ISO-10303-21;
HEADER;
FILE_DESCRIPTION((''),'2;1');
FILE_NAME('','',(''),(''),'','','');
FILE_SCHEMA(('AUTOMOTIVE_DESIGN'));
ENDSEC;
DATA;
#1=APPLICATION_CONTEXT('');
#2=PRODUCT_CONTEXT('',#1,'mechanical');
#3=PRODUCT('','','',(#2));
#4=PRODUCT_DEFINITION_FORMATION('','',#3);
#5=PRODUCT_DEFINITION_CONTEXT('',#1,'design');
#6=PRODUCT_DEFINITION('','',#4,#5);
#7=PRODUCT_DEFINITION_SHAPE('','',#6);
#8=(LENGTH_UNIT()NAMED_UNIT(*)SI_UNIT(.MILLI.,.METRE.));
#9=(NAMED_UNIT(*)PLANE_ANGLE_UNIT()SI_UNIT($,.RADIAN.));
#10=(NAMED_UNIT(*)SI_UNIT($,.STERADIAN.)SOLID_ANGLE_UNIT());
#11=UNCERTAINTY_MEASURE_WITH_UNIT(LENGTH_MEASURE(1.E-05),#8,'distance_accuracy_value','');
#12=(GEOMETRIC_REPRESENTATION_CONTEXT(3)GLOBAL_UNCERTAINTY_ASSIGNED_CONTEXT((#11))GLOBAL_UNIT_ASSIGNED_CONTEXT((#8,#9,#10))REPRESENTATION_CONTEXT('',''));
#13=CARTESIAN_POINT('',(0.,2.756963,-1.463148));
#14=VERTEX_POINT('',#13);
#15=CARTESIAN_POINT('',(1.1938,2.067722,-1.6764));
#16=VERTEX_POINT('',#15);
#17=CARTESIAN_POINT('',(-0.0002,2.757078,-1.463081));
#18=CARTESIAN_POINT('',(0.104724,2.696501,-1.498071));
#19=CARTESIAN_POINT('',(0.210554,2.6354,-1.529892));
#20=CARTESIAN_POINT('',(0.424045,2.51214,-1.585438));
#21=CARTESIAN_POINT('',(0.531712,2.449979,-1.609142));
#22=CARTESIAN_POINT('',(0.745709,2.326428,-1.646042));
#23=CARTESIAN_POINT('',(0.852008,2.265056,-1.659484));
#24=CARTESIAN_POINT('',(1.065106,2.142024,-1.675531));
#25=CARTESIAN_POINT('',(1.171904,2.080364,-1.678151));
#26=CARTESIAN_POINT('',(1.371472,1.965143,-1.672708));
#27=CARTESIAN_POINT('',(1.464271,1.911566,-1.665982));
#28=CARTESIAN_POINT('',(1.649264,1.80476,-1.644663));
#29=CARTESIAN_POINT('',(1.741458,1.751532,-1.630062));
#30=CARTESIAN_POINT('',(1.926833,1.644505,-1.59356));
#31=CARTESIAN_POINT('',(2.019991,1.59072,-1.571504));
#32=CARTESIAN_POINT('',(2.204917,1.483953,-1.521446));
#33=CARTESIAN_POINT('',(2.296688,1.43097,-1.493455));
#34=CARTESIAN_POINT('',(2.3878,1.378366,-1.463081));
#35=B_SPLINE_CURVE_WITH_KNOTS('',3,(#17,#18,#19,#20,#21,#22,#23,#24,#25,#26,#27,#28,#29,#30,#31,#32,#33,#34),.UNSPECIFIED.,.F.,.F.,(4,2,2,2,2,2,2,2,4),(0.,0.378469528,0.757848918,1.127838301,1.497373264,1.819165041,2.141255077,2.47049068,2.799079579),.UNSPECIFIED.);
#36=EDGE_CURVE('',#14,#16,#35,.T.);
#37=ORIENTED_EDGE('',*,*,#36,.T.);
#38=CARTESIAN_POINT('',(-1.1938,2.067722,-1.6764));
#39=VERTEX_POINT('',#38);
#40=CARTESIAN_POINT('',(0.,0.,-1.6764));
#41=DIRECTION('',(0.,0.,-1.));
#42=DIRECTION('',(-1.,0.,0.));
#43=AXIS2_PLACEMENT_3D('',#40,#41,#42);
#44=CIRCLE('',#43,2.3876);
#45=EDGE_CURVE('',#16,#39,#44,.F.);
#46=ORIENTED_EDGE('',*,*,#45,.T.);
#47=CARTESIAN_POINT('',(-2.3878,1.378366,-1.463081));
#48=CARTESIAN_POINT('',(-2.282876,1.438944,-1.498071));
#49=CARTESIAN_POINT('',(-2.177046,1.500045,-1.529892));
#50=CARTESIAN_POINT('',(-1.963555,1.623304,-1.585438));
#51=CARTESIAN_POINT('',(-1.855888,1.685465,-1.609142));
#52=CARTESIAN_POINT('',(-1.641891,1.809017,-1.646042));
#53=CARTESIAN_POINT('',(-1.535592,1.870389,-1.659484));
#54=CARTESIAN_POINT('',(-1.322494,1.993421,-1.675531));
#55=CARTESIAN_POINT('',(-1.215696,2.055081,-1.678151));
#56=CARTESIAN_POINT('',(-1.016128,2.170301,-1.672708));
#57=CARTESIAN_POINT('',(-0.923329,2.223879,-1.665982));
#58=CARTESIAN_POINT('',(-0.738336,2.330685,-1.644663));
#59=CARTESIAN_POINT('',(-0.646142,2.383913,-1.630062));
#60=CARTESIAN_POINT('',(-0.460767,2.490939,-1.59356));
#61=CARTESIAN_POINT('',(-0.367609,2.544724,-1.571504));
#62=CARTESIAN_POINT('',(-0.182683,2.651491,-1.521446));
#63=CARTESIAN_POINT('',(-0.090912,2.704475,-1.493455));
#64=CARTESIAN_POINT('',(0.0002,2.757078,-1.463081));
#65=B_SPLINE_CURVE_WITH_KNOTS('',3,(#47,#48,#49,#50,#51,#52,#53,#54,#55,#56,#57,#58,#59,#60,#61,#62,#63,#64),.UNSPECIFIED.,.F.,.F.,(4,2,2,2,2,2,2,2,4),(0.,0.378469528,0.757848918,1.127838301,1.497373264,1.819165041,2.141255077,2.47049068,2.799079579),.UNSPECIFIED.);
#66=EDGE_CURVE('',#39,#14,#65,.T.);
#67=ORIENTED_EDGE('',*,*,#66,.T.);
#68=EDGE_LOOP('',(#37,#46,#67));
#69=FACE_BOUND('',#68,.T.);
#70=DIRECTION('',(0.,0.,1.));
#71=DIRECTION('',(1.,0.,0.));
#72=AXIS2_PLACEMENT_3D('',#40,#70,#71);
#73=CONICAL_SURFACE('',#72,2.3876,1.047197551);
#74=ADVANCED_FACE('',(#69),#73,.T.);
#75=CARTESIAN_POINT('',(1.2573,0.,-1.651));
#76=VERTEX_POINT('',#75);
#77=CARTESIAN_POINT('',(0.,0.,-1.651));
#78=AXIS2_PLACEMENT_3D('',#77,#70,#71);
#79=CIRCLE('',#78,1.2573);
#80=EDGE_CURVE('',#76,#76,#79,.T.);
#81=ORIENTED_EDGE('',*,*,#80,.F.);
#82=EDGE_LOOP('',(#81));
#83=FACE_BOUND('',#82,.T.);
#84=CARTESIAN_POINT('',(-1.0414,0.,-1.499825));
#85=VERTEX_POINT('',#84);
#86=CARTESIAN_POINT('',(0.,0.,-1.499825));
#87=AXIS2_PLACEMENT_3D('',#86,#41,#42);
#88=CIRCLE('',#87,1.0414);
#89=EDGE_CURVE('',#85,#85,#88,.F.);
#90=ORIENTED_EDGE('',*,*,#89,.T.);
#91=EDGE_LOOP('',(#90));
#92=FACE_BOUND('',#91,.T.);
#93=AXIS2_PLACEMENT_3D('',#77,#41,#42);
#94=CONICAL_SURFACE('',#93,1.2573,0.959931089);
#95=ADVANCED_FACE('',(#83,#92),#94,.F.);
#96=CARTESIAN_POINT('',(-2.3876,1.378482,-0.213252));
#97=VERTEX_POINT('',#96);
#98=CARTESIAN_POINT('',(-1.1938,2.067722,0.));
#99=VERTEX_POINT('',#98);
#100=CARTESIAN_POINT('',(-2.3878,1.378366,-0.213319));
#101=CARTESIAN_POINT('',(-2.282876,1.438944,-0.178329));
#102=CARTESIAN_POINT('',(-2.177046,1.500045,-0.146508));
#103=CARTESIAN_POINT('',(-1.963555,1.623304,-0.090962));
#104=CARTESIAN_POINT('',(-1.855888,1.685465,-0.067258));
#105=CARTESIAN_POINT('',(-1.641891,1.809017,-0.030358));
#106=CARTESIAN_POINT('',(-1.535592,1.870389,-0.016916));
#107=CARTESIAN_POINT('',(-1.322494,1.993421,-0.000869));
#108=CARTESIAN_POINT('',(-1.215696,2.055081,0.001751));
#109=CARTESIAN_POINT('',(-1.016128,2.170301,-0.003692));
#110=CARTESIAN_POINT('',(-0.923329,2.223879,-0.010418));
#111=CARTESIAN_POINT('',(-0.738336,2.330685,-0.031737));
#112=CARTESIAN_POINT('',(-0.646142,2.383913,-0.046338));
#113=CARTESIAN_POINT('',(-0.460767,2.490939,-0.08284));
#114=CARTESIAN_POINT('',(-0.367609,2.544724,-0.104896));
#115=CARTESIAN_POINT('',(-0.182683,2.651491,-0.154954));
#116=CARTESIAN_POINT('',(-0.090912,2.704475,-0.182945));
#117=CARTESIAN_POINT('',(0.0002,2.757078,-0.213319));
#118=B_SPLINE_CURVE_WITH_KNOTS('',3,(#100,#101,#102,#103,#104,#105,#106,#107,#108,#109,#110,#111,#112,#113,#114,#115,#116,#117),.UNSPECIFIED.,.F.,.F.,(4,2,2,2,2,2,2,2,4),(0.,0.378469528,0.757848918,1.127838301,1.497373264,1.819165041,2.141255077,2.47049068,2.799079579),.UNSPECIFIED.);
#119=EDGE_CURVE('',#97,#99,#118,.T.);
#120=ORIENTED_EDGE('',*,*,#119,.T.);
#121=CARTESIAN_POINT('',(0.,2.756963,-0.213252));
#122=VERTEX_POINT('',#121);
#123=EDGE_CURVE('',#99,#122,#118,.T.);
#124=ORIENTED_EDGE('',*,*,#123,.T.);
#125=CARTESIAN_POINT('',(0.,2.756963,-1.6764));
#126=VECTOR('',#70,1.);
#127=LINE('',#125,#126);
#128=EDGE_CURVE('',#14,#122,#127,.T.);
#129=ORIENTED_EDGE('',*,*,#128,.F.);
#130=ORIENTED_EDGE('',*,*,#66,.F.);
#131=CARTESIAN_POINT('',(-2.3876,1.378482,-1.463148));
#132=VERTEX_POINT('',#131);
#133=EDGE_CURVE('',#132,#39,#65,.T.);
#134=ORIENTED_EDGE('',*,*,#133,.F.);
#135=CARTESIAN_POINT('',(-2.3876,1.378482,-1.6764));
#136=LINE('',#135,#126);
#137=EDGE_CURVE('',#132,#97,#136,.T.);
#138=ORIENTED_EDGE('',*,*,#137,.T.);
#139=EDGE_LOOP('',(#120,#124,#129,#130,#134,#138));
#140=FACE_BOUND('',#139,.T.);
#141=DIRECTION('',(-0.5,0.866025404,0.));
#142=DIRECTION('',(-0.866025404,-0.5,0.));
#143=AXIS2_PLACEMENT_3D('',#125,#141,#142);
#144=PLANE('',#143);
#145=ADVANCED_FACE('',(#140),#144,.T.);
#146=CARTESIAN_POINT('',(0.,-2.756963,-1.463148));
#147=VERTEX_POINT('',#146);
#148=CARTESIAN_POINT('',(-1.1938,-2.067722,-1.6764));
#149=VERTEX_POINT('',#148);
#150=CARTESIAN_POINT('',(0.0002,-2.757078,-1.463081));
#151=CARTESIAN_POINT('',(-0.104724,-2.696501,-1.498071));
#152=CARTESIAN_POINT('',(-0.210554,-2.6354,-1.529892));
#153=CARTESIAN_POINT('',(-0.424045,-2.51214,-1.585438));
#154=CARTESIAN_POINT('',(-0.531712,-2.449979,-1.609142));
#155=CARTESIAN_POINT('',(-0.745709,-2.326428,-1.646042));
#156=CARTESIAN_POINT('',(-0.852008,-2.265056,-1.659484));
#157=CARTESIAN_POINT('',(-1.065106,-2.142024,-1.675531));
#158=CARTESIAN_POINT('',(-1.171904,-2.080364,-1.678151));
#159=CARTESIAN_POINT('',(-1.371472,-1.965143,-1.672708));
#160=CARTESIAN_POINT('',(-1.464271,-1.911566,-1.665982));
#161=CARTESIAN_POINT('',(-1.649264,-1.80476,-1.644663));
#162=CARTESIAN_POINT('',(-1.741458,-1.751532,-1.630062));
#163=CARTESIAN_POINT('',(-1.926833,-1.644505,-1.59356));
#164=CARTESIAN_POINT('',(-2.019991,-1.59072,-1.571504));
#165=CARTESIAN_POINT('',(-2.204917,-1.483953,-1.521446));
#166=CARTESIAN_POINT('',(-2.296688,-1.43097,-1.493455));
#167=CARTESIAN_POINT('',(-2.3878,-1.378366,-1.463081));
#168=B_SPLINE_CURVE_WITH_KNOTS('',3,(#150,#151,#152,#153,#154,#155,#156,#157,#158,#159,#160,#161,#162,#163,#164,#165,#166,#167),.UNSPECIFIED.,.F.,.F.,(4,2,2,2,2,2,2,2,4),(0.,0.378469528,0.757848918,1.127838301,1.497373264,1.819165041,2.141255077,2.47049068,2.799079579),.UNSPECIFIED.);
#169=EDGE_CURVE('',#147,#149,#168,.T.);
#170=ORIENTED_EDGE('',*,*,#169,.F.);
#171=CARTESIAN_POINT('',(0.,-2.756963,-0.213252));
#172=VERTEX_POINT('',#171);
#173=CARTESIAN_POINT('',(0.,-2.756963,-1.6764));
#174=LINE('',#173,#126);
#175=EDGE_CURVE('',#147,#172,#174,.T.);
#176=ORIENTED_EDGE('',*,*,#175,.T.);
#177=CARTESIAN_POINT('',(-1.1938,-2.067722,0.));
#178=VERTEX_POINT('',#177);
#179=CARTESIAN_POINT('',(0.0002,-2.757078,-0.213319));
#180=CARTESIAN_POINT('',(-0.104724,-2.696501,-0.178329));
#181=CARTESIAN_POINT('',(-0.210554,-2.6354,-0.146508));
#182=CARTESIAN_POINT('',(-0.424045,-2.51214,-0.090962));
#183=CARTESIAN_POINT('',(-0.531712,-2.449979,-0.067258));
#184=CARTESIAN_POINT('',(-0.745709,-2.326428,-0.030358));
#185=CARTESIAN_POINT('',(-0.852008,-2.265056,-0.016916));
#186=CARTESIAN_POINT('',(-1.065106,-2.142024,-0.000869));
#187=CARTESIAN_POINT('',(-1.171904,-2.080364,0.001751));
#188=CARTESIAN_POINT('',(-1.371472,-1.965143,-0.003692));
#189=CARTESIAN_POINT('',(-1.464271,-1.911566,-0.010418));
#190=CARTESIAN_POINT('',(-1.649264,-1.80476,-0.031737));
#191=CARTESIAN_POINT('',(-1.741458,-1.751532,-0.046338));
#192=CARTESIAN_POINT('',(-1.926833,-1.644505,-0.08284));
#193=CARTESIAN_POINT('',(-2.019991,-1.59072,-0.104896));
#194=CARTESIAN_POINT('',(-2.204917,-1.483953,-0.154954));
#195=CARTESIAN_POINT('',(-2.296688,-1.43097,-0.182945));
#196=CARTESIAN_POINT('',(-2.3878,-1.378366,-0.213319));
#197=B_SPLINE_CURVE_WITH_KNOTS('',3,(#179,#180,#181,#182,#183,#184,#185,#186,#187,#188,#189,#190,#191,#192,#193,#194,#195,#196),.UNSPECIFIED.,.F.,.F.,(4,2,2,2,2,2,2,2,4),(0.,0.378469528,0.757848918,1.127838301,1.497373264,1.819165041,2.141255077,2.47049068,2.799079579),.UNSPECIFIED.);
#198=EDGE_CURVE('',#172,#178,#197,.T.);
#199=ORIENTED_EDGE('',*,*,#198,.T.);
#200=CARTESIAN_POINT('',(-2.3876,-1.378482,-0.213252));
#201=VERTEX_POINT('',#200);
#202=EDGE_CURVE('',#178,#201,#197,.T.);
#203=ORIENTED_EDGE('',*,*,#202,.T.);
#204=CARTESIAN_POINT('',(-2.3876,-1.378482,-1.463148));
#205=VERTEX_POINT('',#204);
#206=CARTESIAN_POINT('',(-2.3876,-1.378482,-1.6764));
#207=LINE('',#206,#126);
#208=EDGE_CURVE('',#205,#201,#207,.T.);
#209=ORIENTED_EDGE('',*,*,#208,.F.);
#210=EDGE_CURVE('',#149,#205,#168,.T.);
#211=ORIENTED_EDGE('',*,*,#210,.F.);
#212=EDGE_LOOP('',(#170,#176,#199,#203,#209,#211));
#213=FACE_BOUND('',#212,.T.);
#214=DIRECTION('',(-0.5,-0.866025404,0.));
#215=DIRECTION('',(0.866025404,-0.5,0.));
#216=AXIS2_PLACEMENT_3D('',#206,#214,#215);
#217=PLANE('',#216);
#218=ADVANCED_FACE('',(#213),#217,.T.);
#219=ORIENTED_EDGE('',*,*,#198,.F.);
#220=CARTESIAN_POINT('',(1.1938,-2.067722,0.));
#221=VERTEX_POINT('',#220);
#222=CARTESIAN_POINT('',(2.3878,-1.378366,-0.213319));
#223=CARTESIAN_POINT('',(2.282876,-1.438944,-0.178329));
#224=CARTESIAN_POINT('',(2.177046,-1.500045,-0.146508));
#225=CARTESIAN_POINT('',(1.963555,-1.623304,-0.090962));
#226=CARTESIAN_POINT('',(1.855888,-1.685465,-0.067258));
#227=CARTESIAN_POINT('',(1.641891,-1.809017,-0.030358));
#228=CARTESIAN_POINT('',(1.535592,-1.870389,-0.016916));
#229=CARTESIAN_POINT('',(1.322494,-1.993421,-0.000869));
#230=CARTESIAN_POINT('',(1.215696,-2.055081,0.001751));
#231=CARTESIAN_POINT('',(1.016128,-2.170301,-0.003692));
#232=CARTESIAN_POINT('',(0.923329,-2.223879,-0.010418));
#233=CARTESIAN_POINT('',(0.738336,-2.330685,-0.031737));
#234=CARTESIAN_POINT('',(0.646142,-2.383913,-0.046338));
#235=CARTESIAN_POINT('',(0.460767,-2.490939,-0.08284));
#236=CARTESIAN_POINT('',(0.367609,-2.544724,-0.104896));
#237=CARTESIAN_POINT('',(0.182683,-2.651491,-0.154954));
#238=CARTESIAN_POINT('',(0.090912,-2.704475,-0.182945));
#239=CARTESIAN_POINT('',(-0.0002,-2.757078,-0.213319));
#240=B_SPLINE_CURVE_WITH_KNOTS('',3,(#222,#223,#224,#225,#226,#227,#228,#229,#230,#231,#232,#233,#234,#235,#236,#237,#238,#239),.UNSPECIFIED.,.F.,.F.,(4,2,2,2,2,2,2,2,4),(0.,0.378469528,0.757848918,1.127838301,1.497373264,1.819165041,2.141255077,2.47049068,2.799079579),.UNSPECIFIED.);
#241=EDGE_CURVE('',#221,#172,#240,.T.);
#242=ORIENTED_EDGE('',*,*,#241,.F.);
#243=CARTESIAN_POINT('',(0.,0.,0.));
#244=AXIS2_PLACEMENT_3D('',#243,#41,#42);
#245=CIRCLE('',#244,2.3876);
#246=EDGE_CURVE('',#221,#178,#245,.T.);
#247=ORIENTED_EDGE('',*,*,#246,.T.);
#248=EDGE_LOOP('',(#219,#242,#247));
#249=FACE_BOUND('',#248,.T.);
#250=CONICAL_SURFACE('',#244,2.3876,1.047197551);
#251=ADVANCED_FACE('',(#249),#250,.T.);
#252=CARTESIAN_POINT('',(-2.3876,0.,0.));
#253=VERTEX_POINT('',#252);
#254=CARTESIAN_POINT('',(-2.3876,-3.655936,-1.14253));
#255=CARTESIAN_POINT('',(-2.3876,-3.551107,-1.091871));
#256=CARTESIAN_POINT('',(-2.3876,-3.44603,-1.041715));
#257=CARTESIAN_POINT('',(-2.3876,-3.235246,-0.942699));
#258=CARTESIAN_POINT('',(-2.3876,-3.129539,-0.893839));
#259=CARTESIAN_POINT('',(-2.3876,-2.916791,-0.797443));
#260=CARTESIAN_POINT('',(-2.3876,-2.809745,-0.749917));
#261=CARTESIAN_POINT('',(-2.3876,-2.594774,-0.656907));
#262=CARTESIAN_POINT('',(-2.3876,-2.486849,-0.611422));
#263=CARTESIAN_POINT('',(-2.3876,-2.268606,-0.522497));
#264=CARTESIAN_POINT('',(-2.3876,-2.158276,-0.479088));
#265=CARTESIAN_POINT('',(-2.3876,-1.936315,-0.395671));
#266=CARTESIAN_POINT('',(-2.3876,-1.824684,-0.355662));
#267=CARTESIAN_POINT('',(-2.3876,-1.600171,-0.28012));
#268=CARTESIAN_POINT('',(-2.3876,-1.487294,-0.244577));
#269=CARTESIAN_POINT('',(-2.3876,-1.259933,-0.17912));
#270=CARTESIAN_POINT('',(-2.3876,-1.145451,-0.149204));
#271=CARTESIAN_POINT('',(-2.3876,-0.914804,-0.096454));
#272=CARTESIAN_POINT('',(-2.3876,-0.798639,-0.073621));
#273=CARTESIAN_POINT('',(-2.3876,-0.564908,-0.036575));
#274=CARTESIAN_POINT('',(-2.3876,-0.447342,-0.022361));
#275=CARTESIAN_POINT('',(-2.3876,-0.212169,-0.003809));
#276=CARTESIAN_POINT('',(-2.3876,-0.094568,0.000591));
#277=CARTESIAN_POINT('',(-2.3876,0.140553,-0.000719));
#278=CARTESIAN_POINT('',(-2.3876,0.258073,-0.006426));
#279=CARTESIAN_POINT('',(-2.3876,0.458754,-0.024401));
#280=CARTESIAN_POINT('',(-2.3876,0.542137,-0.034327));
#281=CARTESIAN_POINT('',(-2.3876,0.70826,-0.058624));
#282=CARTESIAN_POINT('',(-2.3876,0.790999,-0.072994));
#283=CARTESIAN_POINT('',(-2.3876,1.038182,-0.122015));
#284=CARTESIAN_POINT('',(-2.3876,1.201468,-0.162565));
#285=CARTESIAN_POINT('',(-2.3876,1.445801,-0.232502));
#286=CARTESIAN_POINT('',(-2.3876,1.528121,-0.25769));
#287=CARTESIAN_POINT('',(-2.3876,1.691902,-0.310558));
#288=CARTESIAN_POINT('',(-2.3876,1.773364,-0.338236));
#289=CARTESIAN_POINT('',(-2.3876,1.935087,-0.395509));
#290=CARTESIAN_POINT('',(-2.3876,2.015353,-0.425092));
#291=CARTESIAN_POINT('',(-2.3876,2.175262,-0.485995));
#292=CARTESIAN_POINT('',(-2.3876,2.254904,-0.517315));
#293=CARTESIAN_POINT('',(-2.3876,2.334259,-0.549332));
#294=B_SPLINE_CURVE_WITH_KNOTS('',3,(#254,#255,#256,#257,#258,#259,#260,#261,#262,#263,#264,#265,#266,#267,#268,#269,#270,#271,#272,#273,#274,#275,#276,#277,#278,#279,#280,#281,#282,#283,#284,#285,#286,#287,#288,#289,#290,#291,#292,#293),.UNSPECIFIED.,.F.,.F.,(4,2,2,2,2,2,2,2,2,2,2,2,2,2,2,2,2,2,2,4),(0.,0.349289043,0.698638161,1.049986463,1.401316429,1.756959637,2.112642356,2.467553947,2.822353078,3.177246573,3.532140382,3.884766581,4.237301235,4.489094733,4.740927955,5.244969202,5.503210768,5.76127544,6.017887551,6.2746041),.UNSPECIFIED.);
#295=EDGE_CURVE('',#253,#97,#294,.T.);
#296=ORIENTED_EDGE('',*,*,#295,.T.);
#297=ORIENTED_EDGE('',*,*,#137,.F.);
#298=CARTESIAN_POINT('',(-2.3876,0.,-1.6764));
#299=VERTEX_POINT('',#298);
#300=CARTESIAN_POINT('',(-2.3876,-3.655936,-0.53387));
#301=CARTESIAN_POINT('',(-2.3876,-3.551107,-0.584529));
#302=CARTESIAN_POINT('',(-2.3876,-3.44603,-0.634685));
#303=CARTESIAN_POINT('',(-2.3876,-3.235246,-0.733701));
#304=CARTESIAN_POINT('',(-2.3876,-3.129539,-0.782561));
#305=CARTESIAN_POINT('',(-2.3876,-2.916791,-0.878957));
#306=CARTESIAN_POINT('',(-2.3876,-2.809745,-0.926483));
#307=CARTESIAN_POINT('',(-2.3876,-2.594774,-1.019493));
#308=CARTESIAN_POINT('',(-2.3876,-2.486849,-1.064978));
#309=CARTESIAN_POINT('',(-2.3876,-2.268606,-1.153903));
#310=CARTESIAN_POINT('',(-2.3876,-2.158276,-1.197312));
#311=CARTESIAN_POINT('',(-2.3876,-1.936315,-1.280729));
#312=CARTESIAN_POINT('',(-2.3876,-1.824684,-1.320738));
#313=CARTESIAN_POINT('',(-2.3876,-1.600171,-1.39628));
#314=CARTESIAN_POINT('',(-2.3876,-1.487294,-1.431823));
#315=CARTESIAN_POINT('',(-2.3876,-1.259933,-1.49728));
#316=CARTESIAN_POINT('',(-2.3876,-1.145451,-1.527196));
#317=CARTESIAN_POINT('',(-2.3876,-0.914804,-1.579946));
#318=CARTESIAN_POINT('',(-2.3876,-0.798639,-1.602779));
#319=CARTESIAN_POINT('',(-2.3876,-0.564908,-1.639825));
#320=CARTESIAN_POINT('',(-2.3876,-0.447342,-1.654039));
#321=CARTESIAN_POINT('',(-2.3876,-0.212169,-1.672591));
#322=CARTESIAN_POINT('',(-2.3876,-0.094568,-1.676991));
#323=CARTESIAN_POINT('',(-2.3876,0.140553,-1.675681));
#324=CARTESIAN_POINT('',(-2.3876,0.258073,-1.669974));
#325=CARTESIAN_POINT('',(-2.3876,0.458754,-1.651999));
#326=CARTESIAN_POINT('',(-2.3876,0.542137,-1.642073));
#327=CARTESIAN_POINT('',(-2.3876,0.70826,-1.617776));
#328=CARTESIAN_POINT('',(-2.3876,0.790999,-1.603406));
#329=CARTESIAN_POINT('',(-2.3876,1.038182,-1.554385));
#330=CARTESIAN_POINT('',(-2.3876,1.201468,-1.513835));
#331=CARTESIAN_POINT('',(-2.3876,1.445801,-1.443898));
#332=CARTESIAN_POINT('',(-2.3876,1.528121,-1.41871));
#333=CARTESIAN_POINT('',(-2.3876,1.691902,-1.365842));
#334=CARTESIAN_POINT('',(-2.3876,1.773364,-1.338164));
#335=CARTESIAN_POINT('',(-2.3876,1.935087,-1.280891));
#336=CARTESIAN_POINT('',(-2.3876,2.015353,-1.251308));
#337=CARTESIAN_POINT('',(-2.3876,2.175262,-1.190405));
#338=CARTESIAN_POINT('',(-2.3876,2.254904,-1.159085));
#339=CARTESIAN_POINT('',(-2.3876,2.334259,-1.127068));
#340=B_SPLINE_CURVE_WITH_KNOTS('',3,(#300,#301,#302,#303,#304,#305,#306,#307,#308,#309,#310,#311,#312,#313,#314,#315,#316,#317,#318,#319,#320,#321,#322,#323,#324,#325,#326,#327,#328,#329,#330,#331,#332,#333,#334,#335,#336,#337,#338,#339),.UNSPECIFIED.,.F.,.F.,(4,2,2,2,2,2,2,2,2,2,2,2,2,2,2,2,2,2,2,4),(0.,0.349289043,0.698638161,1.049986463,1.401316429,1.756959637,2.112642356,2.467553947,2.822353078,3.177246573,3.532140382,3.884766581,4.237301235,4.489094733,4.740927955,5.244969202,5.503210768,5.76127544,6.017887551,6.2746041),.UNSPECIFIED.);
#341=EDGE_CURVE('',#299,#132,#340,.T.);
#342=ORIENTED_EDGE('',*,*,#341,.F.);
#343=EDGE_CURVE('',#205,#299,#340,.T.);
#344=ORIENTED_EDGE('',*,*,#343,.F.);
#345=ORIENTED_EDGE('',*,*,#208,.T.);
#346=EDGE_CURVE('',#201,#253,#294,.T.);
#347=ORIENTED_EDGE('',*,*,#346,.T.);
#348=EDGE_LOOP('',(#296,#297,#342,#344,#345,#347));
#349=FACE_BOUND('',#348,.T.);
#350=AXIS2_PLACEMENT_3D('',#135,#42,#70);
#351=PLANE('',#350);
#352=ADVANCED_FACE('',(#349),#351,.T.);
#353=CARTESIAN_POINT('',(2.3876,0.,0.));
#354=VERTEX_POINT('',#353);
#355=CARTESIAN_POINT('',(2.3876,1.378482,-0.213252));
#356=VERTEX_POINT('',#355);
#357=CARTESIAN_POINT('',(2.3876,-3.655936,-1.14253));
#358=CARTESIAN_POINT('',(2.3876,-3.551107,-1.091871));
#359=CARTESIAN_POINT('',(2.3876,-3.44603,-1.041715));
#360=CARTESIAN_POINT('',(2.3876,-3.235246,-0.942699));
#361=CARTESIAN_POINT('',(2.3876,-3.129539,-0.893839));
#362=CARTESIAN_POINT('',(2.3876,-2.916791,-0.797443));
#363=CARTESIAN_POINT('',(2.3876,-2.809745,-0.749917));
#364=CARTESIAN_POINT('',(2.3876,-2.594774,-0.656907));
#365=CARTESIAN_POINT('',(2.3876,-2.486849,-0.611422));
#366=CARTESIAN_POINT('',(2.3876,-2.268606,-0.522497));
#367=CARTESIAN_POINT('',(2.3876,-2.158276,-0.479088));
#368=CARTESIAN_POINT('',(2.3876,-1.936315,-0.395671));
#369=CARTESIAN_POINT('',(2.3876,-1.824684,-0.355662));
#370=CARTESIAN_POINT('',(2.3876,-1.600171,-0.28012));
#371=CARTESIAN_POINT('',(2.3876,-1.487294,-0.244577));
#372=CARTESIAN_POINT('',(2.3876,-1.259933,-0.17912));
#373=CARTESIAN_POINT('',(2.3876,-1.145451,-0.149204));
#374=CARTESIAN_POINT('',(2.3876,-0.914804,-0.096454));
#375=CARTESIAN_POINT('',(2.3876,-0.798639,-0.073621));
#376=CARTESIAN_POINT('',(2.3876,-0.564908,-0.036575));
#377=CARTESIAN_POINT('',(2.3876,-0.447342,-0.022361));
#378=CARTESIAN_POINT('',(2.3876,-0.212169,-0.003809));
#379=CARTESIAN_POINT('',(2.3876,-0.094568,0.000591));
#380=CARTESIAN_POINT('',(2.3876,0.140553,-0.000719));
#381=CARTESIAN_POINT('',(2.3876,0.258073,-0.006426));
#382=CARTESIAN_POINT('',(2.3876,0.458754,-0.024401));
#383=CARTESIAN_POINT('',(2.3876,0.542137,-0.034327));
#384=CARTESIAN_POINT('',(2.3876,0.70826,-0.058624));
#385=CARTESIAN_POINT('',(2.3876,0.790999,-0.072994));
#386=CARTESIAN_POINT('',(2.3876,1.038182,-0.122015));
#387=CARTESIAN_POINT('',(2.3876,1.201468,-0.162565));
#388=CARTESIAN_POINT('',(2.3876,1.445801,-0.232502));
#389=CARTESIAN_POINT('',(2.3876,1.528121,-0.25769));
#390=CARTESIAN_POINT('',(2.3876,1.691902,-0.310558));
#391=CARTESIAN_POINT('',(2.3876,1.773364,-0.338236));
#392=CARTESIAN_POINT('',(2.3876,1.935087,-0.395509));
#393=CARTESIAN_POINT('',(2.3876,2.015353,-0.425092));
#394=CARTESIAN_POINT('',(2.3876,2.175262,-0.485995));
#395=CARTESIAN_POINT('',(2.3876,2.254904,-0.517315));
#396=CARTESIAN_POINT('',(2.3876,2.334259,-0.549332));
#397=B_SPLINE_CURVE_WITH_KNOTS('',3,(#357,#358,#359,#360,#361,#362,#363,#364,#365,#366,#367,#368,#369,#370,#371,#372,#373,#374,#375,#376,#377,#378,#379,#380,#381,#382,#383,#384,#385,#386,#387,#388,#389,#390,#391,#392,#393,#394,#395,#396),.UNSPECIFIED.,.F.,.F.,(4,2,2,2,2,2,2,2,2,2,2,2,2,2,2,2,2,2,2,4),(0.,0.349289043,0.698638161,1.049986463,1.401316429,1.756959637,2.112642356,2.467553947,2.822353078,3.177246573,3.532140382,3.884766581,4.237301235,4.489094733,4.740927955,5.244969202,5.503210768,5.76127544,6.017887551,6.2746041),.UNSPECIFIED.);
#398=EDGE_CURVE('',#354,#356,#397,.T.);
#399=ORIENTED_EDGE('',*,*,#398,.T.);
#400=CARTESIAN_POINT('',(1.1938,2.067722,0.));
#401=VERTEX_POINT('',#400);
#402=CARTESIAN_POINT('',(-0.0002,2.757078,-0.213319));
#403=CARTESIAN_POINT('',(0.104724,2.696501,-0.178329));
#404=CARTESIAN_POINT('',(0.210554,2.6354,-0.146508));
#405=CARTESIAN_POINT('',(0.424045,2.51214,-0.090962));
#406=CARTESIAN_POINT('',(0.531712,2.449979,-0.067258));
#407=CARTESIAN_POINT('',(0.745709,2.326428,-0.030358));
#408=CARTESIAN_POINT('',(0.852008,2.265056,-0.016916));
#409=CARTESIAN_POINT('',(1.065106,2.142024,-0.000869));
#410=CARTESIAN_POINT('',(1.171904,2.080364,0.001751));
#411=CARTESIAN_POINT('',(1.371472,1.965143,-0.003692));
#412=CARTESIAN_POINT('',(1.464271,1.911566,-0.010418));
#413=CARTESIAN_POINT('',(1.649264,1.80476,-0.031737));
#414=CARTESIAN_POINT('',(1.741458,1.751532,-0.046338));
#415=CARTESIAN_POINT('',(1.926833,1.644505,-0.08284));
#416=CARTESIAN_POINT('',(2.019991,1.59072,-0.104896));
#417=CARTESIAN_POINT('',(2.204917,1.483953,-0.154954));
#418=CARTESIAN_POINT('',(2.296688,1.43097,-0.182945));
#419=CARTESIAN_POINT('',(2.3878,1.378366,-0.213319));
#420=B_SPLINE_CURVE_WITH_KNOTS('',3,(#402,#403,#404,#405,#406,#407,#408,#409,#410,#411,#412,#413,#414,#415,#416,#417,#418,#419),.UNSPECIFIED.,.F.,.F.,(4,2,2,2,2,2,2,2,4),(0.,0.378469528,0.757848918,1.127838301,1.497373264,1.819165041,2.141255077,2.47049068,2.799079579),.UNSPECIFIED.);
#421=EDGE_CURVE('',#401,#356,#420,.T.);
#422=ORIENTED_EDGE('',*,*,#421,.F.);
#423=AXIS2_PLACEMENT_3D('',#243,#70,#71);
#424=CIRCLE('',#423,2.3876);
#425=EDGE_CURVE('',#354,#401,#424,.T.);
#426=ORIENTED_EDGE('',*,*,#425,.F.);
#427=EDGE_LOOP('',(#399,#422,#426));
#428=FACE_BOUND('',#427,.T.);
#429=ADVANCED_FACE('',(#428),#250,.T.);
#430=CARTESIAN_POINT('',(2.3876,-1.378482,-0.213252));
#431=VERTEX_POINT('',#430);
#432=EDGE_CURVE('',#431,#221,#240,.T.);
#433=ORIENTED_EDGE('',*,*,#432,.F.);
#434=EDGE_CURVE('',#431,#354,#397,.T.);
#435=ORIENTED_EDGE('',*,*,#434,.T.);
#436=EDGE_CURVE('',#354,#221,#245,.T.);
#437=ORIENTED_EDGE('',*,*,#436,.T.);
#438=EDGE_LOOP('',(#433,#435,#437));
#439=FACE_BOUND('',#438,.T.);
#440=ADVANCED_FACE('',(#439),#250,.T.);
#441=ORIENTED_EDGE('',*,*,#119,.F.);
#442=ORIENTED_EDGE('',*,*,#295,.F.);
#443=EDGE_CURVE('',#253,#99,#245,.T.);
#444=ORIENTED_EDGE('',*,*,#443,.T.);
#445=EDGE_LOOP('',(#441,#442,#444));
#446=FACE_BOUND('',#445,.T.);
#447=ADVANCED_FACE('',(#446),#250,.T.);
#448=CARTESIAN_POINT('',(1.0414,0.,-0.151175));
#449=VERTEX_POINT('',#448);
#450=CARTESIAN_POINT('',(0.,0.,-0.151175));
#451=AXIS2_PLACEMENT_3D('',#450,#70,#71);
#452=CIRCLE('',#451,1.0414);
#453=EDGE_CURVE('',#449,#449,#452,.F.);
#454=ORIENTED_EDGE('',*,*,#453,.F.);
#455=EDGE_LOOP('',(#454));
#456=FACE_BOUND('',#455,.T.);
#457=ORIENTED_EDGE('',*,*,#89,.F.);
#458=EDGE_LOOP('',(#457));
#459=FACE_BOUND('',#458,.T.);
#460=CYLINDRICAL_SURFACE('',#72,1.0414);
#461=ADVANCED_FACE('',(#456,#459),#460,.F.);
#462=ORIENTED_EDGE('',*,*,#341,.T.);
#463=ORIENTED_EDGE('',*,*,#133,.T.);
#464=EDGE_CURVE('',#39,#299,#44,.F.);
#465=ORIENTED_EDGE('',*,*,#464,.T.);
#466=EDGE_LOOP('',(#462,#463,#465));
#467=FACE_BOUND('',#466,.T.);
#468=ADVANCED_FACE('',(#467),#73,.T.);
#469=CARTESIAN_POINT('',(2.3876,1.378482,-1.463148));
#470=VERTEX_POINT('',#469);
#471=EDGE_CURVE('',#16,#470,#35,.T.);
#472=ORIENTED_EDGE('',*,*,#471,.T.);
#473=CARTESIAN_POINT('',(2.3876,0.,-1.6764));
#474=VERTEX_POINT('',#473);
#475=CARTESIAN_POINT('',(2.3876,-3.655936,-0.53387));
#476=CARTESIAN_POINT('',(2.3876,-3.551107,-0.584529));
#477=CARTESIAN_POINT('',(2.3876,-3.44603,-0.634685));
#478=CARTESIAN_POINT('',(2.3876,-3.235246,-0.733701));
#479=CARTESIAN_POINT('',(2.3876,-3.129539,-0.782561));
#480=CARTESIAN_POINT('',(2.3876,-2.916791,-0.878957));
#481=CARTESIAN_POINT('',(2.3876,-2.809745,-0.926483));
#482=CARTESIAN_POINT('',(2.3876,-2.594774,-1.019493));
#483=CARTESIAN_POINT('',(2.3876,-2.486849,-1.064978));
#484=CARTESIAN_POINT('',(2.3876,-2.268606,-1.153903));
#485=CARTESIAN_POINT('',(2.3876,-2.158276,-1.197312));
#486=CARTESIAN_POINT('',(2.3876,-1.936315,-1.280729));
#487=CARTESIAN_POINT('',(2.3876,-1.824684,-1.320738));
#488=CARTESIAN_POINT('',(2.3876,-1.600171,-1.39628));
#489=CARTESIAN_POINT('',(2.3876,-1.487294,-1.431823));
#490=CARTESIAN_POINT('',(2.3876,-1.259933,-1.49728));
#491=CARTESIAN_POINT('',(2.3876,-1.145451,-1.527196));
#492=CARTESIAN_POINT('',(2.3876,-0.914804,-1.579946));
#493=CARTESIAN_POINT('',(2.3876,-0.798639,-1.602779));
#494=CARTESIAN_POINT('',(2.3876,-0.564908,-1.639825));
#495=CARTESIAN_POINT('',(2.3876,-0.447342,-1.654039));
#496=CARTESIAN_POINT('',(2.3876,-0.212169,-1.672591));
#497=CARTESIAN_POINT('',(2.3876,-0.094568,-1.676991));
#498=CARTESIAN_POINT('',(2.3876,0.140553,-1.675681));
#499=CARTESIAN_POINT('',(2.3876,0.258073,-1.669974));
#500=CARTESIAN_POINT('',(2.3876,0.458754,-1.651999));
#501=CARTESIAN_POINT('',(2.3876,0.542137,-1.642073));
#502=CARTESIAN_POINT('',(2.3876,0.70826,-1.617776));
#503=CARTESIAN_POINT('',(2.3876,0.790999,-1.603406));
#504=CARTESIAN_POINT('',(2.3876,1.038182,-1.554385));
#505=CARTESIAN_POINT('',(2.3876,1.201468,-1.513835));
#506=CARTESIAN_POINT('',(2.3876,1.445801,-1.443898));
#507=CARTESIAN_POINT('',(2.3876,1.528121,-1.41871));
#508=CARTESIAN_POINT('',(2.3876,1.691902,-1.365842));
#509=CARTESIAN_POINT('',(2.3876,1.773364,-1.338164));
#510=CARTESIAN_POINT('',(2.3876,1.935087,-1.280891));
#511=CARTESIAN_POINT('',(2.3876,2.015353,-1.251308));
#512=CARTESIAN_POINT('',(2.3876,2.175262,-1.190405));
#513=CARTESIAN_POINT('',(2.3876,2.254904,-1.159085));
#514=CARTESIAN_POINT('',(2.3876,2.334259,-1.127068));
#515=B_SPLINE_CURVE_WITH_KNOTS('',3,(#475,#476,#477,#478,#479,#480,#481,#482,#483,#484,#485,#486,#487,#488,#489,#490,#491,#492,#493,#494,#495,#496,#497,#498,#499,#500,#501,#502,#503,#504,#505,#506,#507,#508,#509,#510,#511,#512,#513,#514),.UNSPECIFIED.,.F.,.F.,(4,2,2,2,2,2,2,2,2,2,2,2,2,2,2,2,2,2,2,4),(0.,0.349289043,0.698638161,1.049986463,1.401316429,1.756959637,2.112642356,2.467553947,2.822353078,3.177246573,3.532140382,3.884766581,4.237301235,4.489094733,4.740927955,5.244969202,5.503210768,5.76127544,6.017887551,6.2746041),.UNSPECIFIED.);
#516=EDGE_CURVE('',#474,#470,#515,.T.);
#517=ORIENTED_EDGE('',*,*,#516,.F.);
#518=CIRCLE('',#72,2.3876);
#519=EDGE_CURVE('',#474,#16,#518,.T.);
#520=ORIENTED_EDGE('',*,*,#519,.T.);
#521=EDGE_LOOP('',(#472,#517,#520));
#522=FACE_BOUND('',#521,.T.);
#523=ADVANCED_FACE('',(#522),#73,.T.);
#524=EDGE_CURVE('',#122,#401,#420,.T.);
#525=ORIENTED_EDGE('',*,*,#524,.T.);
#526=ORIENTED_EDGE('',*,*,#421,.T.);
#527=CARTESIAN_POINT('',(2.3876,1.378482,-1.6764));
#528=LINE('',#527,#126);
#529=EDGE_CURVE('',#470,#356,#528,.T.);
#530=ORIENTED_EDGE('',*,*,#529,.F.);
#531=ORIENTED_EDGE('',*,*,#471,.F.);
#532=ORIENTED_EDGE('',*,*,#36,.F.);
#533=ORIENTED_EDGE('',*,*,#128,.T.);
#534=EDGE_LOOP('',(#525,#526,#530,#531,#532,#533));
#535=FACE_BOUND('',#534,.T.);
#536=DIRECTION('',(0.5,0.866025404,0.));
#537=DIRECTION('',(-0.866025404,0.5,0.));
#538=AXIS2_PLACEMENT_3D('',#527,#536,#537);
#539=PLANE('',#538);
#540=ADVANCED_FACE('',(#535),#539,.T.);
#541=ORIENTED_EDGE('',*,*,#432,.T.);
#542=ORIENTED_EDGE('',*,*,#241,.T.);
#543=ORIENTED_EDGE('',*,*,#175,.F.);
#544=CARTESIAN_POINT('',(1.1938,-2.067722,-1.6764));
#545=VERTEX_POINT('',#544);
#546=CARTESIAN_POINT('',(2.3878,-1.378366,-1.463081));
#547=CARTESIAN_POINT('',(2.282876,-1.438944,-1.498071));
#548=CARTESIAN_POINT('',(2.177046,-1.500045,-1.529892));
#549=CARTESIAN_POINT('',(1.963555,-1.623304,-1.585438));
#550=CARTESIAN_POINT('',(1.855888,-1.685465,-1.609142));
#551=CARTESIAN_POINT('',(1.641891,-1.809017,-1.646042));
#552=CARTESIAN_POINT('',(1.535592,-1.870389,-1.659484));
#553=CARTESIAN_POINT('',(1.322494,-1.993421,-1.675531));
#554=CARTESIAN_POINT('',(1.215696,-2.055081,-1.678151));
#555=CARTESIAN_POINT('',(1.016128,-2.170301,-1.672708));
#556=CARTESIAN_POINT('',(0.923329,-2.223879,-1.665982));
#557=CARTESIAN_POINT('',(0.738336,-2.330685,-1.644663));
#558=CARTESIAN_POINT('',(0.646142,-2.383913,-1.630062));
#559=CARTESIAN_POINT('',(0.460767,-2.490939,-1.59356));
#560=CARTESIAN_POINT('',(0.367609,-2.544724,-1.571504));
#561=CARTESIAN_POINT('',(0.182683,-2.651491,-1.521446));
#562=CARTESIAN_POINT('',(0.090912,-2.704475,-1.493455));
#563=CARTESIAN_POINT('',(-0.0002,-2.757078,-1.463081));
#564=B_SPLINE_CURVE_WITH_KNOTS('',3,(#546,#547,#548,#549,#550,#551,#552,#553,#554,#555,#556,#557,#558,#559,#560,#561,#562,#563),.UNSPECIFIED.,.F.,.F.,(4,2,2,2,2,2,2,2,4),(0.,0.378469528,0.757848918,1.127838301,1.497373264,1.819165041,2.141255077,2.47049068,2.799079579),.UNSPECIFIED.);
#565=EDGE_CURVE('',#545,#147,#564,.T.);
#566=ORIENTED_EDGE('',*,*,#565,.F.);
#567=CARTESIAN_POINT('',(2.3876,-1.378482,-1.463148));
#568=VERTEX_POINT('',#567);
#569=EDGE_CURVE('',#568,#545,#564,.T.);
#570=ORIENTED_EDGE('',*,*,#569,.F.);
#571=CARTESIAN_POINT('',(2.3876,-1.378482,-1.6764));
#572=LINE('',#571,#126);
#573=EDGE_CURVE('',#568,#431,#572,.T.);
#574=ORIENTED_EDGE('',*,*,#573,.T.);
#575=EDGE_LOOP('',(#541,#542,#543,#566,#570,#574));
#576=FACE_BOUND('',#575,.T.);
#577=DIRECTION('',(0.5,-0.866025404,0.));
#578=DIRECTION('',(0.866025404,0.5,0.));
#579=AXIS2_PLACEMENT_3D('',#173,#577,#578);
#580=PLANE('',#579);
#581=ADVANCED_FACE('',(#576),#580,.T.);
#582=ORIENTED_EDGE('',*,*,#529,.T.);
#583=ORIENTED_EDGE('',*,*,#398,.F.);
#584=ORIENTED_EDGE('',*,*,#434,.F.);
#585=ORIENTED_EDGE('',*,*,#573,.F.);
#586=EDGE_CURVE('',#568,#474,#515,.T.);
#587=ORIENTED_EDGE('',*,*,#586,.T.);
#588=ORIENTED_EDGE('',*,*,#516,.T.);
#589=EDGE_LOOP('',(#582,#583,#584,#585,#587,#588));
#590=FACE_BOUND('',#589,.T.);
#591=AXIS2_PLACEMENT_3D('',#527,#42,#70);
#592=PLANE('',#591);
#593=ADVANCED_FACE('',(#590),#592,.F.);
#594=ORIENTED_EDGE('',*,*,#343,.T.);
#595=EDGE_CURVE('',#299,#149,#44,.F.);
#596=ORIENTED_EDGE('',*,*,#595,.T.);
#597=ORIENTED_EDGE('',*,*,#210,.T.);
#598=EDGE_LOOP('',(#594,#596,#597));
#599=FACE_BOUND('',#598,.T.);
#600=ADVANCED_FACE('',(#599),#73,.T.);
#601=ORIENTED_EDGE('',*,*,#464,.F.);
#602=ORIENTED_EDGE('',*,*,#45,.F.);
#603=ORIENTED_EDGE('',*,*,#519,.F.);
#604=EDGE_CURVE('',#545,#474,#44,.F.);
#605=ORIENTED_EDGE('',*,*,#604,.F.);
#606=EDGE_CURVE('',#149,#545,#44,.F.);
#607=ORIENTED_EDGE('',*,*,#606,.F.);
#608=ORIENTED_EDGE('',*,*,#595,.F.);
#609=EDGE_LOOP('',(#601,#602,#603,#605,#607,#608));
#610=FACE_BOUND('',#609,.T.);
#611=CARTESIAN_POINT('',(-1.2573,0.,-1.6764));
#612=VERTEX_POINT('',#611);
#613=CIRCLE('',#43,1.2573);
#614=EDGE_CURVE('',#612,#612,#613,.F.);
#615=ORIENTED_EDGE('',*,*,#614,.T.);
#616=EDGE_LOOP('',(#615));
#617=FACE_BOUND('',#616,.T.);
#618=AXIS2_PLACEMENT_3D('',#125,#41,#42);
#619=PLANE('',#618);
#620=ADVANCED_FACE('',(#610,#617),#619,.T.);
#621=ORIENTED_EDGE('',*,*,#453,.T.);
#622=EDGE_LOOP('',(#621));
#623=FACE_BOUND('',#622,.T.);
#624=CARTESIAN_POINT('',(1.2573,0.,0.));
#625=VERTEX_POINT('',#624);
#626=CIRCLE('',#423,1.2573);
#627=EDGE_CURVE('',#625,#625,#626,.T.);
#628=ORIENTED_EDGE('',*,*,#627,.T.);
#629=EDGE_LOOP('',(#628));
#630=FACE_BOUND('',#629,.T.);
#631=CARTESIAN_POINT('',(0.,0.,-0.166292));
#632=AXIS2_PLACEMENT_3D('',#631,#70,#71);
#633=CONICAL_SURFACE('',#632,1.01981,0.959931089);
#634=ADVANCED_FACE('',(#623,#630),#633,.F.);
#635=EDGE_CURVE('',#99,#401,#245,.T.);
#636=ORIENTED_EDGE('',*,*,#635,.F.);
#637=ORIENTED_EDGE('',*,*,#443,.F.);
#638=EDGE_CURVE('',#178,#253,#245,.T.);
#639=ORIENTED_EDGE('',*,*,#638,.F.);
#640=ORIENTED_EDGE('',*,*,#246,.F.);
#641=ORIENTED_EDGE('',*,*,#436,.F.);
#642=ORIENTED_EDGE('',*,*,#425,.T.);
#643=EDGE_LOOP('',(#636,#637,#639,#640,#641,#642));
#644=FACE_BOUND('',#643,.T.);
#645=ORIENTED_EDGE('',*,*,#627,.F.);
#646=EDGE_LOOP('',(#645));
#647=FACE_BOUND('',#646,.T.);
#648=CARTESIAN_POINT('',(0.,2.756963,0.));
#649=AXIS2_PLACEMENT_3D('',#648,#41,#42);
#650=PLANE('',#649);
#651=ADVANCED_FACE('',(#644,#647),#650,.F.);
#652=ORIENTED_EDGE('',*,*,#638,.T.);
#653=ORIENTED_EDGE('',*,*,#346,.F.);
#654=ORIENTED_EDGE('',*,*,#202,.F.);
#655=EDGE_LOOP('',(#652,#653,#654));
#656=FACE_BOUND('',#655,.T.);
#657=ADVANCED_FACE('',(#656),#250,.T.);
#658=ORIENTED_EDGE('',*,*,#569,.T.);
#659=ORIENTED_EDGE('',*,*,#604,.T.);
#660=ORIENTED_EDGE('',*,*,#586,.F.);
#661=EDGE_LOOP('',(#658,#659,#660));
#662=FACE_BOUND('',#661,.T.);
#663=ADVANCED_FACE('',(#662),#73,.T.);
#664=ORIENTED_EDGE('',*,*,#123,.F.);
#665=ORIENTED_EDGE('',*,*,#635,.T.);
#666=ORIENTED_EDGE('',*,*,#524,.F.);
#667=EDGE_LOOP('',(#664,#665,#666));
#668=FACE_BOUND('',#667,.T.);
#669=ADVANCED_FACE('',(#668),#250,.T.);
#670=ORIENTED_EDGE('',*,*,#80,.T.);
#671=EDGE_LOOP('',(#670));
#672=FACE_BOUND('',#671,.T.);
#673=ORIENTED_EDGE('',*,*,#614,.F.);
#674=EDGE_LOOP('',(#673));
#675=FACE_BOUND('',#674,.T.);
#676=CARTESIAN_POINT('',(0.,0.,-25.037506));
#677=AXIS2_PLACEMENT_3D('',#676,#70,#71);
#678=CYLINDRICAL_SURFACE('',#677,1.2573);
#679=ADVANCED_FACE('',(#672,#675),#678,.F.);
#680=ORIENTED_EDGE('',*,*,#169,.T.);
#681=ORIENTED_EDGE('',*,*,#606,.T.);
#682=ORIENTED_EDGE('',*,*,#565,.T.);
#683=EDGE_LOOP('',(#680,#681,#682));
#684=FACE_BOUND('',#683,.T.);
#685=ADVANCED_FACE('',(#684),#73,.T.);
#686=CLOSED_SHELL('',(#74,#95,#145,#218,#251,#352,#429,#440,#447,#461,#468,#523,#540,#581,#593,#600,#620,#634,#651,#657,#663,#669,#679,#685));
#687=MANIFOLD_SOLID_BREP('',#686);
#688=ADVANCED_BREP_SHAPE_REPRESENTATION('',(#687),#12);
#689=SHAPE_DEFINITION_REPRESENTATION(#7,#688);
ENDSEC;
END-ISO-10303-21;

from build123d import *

# Parameters (mm, degrees)
BASENUT_START = -1.6764
BASENUTSKE_R  = 1.0414
BASENUT_DEPTH = 1.6764


with BuildPart() as part:
    # BaseNutSke → BaseNut (new body)
    with BuildSketch(Plane.XY.offset(BASENUT_START)):
        Polygon((2.3876, 1.378481503), (2.3876, -1.378481503), (0, -2.756963005), (-2.3876, -1.378481503), (-2.3876, 1.378481503), (0, 2.756963005), align=None)
        Circle(BASENUTSKE_R, mode=Mode.SUBTRACT)
    extrude(amount=BASENUT_DEPTH)

    # Sketch3 → Double-Chamfer (revolve, cut)
    with BuildSketch(Plane(origin=(0, 0, 0), x_dir=(0, 0, -1), z_dir=(1, 0, 0))):
        Polygon((1.6764, 2.3876), (1.463148169, 2.756963005), (1.463148169, 15.456963005), (14.3764, 15.456963005), (14.3764, 2.3876), align=None)
        Polygon((0.213251831, 15.456963005), (-12.7, 15.456963005), (-12.7, 2.3876), (0, 2.3876), (0.213251831, 2.756963005), align=None)
    revolve(axis=Axis((0, 0, 0), (0, 0, -1)), mode=Mode.SUBTRACT)

    # EndChamferSketch → EndChamfer (revolve, cut)
    with BuildSketch(Plane(origin=(0, 0, 0), x_dir=(0, 0, -1), z_dir=(1, 0, 0)), mode=Mode.PRIVATE) as endchamfer_sk:
        Polygon((1.651, 1.2573), (1.484707712, 1.01981), (1.7018, 1.01981), (1.7018, 1.2573), align=None)
        Polygon((-0.0508, 1.2573), (0, 1.2573), (0.166292288, 1.01981), (-0.0508, 1.01981), align=None)
    revolve(endchamfer_sk.sketch.rotate(Axis((0, 0, -25.037505729), (0, 0, -1)), 90), axis=Axis((0, 0, -25.037505729), (0, 0, -1)), mode=Mode.SUBTRACT)


solid = part.part
